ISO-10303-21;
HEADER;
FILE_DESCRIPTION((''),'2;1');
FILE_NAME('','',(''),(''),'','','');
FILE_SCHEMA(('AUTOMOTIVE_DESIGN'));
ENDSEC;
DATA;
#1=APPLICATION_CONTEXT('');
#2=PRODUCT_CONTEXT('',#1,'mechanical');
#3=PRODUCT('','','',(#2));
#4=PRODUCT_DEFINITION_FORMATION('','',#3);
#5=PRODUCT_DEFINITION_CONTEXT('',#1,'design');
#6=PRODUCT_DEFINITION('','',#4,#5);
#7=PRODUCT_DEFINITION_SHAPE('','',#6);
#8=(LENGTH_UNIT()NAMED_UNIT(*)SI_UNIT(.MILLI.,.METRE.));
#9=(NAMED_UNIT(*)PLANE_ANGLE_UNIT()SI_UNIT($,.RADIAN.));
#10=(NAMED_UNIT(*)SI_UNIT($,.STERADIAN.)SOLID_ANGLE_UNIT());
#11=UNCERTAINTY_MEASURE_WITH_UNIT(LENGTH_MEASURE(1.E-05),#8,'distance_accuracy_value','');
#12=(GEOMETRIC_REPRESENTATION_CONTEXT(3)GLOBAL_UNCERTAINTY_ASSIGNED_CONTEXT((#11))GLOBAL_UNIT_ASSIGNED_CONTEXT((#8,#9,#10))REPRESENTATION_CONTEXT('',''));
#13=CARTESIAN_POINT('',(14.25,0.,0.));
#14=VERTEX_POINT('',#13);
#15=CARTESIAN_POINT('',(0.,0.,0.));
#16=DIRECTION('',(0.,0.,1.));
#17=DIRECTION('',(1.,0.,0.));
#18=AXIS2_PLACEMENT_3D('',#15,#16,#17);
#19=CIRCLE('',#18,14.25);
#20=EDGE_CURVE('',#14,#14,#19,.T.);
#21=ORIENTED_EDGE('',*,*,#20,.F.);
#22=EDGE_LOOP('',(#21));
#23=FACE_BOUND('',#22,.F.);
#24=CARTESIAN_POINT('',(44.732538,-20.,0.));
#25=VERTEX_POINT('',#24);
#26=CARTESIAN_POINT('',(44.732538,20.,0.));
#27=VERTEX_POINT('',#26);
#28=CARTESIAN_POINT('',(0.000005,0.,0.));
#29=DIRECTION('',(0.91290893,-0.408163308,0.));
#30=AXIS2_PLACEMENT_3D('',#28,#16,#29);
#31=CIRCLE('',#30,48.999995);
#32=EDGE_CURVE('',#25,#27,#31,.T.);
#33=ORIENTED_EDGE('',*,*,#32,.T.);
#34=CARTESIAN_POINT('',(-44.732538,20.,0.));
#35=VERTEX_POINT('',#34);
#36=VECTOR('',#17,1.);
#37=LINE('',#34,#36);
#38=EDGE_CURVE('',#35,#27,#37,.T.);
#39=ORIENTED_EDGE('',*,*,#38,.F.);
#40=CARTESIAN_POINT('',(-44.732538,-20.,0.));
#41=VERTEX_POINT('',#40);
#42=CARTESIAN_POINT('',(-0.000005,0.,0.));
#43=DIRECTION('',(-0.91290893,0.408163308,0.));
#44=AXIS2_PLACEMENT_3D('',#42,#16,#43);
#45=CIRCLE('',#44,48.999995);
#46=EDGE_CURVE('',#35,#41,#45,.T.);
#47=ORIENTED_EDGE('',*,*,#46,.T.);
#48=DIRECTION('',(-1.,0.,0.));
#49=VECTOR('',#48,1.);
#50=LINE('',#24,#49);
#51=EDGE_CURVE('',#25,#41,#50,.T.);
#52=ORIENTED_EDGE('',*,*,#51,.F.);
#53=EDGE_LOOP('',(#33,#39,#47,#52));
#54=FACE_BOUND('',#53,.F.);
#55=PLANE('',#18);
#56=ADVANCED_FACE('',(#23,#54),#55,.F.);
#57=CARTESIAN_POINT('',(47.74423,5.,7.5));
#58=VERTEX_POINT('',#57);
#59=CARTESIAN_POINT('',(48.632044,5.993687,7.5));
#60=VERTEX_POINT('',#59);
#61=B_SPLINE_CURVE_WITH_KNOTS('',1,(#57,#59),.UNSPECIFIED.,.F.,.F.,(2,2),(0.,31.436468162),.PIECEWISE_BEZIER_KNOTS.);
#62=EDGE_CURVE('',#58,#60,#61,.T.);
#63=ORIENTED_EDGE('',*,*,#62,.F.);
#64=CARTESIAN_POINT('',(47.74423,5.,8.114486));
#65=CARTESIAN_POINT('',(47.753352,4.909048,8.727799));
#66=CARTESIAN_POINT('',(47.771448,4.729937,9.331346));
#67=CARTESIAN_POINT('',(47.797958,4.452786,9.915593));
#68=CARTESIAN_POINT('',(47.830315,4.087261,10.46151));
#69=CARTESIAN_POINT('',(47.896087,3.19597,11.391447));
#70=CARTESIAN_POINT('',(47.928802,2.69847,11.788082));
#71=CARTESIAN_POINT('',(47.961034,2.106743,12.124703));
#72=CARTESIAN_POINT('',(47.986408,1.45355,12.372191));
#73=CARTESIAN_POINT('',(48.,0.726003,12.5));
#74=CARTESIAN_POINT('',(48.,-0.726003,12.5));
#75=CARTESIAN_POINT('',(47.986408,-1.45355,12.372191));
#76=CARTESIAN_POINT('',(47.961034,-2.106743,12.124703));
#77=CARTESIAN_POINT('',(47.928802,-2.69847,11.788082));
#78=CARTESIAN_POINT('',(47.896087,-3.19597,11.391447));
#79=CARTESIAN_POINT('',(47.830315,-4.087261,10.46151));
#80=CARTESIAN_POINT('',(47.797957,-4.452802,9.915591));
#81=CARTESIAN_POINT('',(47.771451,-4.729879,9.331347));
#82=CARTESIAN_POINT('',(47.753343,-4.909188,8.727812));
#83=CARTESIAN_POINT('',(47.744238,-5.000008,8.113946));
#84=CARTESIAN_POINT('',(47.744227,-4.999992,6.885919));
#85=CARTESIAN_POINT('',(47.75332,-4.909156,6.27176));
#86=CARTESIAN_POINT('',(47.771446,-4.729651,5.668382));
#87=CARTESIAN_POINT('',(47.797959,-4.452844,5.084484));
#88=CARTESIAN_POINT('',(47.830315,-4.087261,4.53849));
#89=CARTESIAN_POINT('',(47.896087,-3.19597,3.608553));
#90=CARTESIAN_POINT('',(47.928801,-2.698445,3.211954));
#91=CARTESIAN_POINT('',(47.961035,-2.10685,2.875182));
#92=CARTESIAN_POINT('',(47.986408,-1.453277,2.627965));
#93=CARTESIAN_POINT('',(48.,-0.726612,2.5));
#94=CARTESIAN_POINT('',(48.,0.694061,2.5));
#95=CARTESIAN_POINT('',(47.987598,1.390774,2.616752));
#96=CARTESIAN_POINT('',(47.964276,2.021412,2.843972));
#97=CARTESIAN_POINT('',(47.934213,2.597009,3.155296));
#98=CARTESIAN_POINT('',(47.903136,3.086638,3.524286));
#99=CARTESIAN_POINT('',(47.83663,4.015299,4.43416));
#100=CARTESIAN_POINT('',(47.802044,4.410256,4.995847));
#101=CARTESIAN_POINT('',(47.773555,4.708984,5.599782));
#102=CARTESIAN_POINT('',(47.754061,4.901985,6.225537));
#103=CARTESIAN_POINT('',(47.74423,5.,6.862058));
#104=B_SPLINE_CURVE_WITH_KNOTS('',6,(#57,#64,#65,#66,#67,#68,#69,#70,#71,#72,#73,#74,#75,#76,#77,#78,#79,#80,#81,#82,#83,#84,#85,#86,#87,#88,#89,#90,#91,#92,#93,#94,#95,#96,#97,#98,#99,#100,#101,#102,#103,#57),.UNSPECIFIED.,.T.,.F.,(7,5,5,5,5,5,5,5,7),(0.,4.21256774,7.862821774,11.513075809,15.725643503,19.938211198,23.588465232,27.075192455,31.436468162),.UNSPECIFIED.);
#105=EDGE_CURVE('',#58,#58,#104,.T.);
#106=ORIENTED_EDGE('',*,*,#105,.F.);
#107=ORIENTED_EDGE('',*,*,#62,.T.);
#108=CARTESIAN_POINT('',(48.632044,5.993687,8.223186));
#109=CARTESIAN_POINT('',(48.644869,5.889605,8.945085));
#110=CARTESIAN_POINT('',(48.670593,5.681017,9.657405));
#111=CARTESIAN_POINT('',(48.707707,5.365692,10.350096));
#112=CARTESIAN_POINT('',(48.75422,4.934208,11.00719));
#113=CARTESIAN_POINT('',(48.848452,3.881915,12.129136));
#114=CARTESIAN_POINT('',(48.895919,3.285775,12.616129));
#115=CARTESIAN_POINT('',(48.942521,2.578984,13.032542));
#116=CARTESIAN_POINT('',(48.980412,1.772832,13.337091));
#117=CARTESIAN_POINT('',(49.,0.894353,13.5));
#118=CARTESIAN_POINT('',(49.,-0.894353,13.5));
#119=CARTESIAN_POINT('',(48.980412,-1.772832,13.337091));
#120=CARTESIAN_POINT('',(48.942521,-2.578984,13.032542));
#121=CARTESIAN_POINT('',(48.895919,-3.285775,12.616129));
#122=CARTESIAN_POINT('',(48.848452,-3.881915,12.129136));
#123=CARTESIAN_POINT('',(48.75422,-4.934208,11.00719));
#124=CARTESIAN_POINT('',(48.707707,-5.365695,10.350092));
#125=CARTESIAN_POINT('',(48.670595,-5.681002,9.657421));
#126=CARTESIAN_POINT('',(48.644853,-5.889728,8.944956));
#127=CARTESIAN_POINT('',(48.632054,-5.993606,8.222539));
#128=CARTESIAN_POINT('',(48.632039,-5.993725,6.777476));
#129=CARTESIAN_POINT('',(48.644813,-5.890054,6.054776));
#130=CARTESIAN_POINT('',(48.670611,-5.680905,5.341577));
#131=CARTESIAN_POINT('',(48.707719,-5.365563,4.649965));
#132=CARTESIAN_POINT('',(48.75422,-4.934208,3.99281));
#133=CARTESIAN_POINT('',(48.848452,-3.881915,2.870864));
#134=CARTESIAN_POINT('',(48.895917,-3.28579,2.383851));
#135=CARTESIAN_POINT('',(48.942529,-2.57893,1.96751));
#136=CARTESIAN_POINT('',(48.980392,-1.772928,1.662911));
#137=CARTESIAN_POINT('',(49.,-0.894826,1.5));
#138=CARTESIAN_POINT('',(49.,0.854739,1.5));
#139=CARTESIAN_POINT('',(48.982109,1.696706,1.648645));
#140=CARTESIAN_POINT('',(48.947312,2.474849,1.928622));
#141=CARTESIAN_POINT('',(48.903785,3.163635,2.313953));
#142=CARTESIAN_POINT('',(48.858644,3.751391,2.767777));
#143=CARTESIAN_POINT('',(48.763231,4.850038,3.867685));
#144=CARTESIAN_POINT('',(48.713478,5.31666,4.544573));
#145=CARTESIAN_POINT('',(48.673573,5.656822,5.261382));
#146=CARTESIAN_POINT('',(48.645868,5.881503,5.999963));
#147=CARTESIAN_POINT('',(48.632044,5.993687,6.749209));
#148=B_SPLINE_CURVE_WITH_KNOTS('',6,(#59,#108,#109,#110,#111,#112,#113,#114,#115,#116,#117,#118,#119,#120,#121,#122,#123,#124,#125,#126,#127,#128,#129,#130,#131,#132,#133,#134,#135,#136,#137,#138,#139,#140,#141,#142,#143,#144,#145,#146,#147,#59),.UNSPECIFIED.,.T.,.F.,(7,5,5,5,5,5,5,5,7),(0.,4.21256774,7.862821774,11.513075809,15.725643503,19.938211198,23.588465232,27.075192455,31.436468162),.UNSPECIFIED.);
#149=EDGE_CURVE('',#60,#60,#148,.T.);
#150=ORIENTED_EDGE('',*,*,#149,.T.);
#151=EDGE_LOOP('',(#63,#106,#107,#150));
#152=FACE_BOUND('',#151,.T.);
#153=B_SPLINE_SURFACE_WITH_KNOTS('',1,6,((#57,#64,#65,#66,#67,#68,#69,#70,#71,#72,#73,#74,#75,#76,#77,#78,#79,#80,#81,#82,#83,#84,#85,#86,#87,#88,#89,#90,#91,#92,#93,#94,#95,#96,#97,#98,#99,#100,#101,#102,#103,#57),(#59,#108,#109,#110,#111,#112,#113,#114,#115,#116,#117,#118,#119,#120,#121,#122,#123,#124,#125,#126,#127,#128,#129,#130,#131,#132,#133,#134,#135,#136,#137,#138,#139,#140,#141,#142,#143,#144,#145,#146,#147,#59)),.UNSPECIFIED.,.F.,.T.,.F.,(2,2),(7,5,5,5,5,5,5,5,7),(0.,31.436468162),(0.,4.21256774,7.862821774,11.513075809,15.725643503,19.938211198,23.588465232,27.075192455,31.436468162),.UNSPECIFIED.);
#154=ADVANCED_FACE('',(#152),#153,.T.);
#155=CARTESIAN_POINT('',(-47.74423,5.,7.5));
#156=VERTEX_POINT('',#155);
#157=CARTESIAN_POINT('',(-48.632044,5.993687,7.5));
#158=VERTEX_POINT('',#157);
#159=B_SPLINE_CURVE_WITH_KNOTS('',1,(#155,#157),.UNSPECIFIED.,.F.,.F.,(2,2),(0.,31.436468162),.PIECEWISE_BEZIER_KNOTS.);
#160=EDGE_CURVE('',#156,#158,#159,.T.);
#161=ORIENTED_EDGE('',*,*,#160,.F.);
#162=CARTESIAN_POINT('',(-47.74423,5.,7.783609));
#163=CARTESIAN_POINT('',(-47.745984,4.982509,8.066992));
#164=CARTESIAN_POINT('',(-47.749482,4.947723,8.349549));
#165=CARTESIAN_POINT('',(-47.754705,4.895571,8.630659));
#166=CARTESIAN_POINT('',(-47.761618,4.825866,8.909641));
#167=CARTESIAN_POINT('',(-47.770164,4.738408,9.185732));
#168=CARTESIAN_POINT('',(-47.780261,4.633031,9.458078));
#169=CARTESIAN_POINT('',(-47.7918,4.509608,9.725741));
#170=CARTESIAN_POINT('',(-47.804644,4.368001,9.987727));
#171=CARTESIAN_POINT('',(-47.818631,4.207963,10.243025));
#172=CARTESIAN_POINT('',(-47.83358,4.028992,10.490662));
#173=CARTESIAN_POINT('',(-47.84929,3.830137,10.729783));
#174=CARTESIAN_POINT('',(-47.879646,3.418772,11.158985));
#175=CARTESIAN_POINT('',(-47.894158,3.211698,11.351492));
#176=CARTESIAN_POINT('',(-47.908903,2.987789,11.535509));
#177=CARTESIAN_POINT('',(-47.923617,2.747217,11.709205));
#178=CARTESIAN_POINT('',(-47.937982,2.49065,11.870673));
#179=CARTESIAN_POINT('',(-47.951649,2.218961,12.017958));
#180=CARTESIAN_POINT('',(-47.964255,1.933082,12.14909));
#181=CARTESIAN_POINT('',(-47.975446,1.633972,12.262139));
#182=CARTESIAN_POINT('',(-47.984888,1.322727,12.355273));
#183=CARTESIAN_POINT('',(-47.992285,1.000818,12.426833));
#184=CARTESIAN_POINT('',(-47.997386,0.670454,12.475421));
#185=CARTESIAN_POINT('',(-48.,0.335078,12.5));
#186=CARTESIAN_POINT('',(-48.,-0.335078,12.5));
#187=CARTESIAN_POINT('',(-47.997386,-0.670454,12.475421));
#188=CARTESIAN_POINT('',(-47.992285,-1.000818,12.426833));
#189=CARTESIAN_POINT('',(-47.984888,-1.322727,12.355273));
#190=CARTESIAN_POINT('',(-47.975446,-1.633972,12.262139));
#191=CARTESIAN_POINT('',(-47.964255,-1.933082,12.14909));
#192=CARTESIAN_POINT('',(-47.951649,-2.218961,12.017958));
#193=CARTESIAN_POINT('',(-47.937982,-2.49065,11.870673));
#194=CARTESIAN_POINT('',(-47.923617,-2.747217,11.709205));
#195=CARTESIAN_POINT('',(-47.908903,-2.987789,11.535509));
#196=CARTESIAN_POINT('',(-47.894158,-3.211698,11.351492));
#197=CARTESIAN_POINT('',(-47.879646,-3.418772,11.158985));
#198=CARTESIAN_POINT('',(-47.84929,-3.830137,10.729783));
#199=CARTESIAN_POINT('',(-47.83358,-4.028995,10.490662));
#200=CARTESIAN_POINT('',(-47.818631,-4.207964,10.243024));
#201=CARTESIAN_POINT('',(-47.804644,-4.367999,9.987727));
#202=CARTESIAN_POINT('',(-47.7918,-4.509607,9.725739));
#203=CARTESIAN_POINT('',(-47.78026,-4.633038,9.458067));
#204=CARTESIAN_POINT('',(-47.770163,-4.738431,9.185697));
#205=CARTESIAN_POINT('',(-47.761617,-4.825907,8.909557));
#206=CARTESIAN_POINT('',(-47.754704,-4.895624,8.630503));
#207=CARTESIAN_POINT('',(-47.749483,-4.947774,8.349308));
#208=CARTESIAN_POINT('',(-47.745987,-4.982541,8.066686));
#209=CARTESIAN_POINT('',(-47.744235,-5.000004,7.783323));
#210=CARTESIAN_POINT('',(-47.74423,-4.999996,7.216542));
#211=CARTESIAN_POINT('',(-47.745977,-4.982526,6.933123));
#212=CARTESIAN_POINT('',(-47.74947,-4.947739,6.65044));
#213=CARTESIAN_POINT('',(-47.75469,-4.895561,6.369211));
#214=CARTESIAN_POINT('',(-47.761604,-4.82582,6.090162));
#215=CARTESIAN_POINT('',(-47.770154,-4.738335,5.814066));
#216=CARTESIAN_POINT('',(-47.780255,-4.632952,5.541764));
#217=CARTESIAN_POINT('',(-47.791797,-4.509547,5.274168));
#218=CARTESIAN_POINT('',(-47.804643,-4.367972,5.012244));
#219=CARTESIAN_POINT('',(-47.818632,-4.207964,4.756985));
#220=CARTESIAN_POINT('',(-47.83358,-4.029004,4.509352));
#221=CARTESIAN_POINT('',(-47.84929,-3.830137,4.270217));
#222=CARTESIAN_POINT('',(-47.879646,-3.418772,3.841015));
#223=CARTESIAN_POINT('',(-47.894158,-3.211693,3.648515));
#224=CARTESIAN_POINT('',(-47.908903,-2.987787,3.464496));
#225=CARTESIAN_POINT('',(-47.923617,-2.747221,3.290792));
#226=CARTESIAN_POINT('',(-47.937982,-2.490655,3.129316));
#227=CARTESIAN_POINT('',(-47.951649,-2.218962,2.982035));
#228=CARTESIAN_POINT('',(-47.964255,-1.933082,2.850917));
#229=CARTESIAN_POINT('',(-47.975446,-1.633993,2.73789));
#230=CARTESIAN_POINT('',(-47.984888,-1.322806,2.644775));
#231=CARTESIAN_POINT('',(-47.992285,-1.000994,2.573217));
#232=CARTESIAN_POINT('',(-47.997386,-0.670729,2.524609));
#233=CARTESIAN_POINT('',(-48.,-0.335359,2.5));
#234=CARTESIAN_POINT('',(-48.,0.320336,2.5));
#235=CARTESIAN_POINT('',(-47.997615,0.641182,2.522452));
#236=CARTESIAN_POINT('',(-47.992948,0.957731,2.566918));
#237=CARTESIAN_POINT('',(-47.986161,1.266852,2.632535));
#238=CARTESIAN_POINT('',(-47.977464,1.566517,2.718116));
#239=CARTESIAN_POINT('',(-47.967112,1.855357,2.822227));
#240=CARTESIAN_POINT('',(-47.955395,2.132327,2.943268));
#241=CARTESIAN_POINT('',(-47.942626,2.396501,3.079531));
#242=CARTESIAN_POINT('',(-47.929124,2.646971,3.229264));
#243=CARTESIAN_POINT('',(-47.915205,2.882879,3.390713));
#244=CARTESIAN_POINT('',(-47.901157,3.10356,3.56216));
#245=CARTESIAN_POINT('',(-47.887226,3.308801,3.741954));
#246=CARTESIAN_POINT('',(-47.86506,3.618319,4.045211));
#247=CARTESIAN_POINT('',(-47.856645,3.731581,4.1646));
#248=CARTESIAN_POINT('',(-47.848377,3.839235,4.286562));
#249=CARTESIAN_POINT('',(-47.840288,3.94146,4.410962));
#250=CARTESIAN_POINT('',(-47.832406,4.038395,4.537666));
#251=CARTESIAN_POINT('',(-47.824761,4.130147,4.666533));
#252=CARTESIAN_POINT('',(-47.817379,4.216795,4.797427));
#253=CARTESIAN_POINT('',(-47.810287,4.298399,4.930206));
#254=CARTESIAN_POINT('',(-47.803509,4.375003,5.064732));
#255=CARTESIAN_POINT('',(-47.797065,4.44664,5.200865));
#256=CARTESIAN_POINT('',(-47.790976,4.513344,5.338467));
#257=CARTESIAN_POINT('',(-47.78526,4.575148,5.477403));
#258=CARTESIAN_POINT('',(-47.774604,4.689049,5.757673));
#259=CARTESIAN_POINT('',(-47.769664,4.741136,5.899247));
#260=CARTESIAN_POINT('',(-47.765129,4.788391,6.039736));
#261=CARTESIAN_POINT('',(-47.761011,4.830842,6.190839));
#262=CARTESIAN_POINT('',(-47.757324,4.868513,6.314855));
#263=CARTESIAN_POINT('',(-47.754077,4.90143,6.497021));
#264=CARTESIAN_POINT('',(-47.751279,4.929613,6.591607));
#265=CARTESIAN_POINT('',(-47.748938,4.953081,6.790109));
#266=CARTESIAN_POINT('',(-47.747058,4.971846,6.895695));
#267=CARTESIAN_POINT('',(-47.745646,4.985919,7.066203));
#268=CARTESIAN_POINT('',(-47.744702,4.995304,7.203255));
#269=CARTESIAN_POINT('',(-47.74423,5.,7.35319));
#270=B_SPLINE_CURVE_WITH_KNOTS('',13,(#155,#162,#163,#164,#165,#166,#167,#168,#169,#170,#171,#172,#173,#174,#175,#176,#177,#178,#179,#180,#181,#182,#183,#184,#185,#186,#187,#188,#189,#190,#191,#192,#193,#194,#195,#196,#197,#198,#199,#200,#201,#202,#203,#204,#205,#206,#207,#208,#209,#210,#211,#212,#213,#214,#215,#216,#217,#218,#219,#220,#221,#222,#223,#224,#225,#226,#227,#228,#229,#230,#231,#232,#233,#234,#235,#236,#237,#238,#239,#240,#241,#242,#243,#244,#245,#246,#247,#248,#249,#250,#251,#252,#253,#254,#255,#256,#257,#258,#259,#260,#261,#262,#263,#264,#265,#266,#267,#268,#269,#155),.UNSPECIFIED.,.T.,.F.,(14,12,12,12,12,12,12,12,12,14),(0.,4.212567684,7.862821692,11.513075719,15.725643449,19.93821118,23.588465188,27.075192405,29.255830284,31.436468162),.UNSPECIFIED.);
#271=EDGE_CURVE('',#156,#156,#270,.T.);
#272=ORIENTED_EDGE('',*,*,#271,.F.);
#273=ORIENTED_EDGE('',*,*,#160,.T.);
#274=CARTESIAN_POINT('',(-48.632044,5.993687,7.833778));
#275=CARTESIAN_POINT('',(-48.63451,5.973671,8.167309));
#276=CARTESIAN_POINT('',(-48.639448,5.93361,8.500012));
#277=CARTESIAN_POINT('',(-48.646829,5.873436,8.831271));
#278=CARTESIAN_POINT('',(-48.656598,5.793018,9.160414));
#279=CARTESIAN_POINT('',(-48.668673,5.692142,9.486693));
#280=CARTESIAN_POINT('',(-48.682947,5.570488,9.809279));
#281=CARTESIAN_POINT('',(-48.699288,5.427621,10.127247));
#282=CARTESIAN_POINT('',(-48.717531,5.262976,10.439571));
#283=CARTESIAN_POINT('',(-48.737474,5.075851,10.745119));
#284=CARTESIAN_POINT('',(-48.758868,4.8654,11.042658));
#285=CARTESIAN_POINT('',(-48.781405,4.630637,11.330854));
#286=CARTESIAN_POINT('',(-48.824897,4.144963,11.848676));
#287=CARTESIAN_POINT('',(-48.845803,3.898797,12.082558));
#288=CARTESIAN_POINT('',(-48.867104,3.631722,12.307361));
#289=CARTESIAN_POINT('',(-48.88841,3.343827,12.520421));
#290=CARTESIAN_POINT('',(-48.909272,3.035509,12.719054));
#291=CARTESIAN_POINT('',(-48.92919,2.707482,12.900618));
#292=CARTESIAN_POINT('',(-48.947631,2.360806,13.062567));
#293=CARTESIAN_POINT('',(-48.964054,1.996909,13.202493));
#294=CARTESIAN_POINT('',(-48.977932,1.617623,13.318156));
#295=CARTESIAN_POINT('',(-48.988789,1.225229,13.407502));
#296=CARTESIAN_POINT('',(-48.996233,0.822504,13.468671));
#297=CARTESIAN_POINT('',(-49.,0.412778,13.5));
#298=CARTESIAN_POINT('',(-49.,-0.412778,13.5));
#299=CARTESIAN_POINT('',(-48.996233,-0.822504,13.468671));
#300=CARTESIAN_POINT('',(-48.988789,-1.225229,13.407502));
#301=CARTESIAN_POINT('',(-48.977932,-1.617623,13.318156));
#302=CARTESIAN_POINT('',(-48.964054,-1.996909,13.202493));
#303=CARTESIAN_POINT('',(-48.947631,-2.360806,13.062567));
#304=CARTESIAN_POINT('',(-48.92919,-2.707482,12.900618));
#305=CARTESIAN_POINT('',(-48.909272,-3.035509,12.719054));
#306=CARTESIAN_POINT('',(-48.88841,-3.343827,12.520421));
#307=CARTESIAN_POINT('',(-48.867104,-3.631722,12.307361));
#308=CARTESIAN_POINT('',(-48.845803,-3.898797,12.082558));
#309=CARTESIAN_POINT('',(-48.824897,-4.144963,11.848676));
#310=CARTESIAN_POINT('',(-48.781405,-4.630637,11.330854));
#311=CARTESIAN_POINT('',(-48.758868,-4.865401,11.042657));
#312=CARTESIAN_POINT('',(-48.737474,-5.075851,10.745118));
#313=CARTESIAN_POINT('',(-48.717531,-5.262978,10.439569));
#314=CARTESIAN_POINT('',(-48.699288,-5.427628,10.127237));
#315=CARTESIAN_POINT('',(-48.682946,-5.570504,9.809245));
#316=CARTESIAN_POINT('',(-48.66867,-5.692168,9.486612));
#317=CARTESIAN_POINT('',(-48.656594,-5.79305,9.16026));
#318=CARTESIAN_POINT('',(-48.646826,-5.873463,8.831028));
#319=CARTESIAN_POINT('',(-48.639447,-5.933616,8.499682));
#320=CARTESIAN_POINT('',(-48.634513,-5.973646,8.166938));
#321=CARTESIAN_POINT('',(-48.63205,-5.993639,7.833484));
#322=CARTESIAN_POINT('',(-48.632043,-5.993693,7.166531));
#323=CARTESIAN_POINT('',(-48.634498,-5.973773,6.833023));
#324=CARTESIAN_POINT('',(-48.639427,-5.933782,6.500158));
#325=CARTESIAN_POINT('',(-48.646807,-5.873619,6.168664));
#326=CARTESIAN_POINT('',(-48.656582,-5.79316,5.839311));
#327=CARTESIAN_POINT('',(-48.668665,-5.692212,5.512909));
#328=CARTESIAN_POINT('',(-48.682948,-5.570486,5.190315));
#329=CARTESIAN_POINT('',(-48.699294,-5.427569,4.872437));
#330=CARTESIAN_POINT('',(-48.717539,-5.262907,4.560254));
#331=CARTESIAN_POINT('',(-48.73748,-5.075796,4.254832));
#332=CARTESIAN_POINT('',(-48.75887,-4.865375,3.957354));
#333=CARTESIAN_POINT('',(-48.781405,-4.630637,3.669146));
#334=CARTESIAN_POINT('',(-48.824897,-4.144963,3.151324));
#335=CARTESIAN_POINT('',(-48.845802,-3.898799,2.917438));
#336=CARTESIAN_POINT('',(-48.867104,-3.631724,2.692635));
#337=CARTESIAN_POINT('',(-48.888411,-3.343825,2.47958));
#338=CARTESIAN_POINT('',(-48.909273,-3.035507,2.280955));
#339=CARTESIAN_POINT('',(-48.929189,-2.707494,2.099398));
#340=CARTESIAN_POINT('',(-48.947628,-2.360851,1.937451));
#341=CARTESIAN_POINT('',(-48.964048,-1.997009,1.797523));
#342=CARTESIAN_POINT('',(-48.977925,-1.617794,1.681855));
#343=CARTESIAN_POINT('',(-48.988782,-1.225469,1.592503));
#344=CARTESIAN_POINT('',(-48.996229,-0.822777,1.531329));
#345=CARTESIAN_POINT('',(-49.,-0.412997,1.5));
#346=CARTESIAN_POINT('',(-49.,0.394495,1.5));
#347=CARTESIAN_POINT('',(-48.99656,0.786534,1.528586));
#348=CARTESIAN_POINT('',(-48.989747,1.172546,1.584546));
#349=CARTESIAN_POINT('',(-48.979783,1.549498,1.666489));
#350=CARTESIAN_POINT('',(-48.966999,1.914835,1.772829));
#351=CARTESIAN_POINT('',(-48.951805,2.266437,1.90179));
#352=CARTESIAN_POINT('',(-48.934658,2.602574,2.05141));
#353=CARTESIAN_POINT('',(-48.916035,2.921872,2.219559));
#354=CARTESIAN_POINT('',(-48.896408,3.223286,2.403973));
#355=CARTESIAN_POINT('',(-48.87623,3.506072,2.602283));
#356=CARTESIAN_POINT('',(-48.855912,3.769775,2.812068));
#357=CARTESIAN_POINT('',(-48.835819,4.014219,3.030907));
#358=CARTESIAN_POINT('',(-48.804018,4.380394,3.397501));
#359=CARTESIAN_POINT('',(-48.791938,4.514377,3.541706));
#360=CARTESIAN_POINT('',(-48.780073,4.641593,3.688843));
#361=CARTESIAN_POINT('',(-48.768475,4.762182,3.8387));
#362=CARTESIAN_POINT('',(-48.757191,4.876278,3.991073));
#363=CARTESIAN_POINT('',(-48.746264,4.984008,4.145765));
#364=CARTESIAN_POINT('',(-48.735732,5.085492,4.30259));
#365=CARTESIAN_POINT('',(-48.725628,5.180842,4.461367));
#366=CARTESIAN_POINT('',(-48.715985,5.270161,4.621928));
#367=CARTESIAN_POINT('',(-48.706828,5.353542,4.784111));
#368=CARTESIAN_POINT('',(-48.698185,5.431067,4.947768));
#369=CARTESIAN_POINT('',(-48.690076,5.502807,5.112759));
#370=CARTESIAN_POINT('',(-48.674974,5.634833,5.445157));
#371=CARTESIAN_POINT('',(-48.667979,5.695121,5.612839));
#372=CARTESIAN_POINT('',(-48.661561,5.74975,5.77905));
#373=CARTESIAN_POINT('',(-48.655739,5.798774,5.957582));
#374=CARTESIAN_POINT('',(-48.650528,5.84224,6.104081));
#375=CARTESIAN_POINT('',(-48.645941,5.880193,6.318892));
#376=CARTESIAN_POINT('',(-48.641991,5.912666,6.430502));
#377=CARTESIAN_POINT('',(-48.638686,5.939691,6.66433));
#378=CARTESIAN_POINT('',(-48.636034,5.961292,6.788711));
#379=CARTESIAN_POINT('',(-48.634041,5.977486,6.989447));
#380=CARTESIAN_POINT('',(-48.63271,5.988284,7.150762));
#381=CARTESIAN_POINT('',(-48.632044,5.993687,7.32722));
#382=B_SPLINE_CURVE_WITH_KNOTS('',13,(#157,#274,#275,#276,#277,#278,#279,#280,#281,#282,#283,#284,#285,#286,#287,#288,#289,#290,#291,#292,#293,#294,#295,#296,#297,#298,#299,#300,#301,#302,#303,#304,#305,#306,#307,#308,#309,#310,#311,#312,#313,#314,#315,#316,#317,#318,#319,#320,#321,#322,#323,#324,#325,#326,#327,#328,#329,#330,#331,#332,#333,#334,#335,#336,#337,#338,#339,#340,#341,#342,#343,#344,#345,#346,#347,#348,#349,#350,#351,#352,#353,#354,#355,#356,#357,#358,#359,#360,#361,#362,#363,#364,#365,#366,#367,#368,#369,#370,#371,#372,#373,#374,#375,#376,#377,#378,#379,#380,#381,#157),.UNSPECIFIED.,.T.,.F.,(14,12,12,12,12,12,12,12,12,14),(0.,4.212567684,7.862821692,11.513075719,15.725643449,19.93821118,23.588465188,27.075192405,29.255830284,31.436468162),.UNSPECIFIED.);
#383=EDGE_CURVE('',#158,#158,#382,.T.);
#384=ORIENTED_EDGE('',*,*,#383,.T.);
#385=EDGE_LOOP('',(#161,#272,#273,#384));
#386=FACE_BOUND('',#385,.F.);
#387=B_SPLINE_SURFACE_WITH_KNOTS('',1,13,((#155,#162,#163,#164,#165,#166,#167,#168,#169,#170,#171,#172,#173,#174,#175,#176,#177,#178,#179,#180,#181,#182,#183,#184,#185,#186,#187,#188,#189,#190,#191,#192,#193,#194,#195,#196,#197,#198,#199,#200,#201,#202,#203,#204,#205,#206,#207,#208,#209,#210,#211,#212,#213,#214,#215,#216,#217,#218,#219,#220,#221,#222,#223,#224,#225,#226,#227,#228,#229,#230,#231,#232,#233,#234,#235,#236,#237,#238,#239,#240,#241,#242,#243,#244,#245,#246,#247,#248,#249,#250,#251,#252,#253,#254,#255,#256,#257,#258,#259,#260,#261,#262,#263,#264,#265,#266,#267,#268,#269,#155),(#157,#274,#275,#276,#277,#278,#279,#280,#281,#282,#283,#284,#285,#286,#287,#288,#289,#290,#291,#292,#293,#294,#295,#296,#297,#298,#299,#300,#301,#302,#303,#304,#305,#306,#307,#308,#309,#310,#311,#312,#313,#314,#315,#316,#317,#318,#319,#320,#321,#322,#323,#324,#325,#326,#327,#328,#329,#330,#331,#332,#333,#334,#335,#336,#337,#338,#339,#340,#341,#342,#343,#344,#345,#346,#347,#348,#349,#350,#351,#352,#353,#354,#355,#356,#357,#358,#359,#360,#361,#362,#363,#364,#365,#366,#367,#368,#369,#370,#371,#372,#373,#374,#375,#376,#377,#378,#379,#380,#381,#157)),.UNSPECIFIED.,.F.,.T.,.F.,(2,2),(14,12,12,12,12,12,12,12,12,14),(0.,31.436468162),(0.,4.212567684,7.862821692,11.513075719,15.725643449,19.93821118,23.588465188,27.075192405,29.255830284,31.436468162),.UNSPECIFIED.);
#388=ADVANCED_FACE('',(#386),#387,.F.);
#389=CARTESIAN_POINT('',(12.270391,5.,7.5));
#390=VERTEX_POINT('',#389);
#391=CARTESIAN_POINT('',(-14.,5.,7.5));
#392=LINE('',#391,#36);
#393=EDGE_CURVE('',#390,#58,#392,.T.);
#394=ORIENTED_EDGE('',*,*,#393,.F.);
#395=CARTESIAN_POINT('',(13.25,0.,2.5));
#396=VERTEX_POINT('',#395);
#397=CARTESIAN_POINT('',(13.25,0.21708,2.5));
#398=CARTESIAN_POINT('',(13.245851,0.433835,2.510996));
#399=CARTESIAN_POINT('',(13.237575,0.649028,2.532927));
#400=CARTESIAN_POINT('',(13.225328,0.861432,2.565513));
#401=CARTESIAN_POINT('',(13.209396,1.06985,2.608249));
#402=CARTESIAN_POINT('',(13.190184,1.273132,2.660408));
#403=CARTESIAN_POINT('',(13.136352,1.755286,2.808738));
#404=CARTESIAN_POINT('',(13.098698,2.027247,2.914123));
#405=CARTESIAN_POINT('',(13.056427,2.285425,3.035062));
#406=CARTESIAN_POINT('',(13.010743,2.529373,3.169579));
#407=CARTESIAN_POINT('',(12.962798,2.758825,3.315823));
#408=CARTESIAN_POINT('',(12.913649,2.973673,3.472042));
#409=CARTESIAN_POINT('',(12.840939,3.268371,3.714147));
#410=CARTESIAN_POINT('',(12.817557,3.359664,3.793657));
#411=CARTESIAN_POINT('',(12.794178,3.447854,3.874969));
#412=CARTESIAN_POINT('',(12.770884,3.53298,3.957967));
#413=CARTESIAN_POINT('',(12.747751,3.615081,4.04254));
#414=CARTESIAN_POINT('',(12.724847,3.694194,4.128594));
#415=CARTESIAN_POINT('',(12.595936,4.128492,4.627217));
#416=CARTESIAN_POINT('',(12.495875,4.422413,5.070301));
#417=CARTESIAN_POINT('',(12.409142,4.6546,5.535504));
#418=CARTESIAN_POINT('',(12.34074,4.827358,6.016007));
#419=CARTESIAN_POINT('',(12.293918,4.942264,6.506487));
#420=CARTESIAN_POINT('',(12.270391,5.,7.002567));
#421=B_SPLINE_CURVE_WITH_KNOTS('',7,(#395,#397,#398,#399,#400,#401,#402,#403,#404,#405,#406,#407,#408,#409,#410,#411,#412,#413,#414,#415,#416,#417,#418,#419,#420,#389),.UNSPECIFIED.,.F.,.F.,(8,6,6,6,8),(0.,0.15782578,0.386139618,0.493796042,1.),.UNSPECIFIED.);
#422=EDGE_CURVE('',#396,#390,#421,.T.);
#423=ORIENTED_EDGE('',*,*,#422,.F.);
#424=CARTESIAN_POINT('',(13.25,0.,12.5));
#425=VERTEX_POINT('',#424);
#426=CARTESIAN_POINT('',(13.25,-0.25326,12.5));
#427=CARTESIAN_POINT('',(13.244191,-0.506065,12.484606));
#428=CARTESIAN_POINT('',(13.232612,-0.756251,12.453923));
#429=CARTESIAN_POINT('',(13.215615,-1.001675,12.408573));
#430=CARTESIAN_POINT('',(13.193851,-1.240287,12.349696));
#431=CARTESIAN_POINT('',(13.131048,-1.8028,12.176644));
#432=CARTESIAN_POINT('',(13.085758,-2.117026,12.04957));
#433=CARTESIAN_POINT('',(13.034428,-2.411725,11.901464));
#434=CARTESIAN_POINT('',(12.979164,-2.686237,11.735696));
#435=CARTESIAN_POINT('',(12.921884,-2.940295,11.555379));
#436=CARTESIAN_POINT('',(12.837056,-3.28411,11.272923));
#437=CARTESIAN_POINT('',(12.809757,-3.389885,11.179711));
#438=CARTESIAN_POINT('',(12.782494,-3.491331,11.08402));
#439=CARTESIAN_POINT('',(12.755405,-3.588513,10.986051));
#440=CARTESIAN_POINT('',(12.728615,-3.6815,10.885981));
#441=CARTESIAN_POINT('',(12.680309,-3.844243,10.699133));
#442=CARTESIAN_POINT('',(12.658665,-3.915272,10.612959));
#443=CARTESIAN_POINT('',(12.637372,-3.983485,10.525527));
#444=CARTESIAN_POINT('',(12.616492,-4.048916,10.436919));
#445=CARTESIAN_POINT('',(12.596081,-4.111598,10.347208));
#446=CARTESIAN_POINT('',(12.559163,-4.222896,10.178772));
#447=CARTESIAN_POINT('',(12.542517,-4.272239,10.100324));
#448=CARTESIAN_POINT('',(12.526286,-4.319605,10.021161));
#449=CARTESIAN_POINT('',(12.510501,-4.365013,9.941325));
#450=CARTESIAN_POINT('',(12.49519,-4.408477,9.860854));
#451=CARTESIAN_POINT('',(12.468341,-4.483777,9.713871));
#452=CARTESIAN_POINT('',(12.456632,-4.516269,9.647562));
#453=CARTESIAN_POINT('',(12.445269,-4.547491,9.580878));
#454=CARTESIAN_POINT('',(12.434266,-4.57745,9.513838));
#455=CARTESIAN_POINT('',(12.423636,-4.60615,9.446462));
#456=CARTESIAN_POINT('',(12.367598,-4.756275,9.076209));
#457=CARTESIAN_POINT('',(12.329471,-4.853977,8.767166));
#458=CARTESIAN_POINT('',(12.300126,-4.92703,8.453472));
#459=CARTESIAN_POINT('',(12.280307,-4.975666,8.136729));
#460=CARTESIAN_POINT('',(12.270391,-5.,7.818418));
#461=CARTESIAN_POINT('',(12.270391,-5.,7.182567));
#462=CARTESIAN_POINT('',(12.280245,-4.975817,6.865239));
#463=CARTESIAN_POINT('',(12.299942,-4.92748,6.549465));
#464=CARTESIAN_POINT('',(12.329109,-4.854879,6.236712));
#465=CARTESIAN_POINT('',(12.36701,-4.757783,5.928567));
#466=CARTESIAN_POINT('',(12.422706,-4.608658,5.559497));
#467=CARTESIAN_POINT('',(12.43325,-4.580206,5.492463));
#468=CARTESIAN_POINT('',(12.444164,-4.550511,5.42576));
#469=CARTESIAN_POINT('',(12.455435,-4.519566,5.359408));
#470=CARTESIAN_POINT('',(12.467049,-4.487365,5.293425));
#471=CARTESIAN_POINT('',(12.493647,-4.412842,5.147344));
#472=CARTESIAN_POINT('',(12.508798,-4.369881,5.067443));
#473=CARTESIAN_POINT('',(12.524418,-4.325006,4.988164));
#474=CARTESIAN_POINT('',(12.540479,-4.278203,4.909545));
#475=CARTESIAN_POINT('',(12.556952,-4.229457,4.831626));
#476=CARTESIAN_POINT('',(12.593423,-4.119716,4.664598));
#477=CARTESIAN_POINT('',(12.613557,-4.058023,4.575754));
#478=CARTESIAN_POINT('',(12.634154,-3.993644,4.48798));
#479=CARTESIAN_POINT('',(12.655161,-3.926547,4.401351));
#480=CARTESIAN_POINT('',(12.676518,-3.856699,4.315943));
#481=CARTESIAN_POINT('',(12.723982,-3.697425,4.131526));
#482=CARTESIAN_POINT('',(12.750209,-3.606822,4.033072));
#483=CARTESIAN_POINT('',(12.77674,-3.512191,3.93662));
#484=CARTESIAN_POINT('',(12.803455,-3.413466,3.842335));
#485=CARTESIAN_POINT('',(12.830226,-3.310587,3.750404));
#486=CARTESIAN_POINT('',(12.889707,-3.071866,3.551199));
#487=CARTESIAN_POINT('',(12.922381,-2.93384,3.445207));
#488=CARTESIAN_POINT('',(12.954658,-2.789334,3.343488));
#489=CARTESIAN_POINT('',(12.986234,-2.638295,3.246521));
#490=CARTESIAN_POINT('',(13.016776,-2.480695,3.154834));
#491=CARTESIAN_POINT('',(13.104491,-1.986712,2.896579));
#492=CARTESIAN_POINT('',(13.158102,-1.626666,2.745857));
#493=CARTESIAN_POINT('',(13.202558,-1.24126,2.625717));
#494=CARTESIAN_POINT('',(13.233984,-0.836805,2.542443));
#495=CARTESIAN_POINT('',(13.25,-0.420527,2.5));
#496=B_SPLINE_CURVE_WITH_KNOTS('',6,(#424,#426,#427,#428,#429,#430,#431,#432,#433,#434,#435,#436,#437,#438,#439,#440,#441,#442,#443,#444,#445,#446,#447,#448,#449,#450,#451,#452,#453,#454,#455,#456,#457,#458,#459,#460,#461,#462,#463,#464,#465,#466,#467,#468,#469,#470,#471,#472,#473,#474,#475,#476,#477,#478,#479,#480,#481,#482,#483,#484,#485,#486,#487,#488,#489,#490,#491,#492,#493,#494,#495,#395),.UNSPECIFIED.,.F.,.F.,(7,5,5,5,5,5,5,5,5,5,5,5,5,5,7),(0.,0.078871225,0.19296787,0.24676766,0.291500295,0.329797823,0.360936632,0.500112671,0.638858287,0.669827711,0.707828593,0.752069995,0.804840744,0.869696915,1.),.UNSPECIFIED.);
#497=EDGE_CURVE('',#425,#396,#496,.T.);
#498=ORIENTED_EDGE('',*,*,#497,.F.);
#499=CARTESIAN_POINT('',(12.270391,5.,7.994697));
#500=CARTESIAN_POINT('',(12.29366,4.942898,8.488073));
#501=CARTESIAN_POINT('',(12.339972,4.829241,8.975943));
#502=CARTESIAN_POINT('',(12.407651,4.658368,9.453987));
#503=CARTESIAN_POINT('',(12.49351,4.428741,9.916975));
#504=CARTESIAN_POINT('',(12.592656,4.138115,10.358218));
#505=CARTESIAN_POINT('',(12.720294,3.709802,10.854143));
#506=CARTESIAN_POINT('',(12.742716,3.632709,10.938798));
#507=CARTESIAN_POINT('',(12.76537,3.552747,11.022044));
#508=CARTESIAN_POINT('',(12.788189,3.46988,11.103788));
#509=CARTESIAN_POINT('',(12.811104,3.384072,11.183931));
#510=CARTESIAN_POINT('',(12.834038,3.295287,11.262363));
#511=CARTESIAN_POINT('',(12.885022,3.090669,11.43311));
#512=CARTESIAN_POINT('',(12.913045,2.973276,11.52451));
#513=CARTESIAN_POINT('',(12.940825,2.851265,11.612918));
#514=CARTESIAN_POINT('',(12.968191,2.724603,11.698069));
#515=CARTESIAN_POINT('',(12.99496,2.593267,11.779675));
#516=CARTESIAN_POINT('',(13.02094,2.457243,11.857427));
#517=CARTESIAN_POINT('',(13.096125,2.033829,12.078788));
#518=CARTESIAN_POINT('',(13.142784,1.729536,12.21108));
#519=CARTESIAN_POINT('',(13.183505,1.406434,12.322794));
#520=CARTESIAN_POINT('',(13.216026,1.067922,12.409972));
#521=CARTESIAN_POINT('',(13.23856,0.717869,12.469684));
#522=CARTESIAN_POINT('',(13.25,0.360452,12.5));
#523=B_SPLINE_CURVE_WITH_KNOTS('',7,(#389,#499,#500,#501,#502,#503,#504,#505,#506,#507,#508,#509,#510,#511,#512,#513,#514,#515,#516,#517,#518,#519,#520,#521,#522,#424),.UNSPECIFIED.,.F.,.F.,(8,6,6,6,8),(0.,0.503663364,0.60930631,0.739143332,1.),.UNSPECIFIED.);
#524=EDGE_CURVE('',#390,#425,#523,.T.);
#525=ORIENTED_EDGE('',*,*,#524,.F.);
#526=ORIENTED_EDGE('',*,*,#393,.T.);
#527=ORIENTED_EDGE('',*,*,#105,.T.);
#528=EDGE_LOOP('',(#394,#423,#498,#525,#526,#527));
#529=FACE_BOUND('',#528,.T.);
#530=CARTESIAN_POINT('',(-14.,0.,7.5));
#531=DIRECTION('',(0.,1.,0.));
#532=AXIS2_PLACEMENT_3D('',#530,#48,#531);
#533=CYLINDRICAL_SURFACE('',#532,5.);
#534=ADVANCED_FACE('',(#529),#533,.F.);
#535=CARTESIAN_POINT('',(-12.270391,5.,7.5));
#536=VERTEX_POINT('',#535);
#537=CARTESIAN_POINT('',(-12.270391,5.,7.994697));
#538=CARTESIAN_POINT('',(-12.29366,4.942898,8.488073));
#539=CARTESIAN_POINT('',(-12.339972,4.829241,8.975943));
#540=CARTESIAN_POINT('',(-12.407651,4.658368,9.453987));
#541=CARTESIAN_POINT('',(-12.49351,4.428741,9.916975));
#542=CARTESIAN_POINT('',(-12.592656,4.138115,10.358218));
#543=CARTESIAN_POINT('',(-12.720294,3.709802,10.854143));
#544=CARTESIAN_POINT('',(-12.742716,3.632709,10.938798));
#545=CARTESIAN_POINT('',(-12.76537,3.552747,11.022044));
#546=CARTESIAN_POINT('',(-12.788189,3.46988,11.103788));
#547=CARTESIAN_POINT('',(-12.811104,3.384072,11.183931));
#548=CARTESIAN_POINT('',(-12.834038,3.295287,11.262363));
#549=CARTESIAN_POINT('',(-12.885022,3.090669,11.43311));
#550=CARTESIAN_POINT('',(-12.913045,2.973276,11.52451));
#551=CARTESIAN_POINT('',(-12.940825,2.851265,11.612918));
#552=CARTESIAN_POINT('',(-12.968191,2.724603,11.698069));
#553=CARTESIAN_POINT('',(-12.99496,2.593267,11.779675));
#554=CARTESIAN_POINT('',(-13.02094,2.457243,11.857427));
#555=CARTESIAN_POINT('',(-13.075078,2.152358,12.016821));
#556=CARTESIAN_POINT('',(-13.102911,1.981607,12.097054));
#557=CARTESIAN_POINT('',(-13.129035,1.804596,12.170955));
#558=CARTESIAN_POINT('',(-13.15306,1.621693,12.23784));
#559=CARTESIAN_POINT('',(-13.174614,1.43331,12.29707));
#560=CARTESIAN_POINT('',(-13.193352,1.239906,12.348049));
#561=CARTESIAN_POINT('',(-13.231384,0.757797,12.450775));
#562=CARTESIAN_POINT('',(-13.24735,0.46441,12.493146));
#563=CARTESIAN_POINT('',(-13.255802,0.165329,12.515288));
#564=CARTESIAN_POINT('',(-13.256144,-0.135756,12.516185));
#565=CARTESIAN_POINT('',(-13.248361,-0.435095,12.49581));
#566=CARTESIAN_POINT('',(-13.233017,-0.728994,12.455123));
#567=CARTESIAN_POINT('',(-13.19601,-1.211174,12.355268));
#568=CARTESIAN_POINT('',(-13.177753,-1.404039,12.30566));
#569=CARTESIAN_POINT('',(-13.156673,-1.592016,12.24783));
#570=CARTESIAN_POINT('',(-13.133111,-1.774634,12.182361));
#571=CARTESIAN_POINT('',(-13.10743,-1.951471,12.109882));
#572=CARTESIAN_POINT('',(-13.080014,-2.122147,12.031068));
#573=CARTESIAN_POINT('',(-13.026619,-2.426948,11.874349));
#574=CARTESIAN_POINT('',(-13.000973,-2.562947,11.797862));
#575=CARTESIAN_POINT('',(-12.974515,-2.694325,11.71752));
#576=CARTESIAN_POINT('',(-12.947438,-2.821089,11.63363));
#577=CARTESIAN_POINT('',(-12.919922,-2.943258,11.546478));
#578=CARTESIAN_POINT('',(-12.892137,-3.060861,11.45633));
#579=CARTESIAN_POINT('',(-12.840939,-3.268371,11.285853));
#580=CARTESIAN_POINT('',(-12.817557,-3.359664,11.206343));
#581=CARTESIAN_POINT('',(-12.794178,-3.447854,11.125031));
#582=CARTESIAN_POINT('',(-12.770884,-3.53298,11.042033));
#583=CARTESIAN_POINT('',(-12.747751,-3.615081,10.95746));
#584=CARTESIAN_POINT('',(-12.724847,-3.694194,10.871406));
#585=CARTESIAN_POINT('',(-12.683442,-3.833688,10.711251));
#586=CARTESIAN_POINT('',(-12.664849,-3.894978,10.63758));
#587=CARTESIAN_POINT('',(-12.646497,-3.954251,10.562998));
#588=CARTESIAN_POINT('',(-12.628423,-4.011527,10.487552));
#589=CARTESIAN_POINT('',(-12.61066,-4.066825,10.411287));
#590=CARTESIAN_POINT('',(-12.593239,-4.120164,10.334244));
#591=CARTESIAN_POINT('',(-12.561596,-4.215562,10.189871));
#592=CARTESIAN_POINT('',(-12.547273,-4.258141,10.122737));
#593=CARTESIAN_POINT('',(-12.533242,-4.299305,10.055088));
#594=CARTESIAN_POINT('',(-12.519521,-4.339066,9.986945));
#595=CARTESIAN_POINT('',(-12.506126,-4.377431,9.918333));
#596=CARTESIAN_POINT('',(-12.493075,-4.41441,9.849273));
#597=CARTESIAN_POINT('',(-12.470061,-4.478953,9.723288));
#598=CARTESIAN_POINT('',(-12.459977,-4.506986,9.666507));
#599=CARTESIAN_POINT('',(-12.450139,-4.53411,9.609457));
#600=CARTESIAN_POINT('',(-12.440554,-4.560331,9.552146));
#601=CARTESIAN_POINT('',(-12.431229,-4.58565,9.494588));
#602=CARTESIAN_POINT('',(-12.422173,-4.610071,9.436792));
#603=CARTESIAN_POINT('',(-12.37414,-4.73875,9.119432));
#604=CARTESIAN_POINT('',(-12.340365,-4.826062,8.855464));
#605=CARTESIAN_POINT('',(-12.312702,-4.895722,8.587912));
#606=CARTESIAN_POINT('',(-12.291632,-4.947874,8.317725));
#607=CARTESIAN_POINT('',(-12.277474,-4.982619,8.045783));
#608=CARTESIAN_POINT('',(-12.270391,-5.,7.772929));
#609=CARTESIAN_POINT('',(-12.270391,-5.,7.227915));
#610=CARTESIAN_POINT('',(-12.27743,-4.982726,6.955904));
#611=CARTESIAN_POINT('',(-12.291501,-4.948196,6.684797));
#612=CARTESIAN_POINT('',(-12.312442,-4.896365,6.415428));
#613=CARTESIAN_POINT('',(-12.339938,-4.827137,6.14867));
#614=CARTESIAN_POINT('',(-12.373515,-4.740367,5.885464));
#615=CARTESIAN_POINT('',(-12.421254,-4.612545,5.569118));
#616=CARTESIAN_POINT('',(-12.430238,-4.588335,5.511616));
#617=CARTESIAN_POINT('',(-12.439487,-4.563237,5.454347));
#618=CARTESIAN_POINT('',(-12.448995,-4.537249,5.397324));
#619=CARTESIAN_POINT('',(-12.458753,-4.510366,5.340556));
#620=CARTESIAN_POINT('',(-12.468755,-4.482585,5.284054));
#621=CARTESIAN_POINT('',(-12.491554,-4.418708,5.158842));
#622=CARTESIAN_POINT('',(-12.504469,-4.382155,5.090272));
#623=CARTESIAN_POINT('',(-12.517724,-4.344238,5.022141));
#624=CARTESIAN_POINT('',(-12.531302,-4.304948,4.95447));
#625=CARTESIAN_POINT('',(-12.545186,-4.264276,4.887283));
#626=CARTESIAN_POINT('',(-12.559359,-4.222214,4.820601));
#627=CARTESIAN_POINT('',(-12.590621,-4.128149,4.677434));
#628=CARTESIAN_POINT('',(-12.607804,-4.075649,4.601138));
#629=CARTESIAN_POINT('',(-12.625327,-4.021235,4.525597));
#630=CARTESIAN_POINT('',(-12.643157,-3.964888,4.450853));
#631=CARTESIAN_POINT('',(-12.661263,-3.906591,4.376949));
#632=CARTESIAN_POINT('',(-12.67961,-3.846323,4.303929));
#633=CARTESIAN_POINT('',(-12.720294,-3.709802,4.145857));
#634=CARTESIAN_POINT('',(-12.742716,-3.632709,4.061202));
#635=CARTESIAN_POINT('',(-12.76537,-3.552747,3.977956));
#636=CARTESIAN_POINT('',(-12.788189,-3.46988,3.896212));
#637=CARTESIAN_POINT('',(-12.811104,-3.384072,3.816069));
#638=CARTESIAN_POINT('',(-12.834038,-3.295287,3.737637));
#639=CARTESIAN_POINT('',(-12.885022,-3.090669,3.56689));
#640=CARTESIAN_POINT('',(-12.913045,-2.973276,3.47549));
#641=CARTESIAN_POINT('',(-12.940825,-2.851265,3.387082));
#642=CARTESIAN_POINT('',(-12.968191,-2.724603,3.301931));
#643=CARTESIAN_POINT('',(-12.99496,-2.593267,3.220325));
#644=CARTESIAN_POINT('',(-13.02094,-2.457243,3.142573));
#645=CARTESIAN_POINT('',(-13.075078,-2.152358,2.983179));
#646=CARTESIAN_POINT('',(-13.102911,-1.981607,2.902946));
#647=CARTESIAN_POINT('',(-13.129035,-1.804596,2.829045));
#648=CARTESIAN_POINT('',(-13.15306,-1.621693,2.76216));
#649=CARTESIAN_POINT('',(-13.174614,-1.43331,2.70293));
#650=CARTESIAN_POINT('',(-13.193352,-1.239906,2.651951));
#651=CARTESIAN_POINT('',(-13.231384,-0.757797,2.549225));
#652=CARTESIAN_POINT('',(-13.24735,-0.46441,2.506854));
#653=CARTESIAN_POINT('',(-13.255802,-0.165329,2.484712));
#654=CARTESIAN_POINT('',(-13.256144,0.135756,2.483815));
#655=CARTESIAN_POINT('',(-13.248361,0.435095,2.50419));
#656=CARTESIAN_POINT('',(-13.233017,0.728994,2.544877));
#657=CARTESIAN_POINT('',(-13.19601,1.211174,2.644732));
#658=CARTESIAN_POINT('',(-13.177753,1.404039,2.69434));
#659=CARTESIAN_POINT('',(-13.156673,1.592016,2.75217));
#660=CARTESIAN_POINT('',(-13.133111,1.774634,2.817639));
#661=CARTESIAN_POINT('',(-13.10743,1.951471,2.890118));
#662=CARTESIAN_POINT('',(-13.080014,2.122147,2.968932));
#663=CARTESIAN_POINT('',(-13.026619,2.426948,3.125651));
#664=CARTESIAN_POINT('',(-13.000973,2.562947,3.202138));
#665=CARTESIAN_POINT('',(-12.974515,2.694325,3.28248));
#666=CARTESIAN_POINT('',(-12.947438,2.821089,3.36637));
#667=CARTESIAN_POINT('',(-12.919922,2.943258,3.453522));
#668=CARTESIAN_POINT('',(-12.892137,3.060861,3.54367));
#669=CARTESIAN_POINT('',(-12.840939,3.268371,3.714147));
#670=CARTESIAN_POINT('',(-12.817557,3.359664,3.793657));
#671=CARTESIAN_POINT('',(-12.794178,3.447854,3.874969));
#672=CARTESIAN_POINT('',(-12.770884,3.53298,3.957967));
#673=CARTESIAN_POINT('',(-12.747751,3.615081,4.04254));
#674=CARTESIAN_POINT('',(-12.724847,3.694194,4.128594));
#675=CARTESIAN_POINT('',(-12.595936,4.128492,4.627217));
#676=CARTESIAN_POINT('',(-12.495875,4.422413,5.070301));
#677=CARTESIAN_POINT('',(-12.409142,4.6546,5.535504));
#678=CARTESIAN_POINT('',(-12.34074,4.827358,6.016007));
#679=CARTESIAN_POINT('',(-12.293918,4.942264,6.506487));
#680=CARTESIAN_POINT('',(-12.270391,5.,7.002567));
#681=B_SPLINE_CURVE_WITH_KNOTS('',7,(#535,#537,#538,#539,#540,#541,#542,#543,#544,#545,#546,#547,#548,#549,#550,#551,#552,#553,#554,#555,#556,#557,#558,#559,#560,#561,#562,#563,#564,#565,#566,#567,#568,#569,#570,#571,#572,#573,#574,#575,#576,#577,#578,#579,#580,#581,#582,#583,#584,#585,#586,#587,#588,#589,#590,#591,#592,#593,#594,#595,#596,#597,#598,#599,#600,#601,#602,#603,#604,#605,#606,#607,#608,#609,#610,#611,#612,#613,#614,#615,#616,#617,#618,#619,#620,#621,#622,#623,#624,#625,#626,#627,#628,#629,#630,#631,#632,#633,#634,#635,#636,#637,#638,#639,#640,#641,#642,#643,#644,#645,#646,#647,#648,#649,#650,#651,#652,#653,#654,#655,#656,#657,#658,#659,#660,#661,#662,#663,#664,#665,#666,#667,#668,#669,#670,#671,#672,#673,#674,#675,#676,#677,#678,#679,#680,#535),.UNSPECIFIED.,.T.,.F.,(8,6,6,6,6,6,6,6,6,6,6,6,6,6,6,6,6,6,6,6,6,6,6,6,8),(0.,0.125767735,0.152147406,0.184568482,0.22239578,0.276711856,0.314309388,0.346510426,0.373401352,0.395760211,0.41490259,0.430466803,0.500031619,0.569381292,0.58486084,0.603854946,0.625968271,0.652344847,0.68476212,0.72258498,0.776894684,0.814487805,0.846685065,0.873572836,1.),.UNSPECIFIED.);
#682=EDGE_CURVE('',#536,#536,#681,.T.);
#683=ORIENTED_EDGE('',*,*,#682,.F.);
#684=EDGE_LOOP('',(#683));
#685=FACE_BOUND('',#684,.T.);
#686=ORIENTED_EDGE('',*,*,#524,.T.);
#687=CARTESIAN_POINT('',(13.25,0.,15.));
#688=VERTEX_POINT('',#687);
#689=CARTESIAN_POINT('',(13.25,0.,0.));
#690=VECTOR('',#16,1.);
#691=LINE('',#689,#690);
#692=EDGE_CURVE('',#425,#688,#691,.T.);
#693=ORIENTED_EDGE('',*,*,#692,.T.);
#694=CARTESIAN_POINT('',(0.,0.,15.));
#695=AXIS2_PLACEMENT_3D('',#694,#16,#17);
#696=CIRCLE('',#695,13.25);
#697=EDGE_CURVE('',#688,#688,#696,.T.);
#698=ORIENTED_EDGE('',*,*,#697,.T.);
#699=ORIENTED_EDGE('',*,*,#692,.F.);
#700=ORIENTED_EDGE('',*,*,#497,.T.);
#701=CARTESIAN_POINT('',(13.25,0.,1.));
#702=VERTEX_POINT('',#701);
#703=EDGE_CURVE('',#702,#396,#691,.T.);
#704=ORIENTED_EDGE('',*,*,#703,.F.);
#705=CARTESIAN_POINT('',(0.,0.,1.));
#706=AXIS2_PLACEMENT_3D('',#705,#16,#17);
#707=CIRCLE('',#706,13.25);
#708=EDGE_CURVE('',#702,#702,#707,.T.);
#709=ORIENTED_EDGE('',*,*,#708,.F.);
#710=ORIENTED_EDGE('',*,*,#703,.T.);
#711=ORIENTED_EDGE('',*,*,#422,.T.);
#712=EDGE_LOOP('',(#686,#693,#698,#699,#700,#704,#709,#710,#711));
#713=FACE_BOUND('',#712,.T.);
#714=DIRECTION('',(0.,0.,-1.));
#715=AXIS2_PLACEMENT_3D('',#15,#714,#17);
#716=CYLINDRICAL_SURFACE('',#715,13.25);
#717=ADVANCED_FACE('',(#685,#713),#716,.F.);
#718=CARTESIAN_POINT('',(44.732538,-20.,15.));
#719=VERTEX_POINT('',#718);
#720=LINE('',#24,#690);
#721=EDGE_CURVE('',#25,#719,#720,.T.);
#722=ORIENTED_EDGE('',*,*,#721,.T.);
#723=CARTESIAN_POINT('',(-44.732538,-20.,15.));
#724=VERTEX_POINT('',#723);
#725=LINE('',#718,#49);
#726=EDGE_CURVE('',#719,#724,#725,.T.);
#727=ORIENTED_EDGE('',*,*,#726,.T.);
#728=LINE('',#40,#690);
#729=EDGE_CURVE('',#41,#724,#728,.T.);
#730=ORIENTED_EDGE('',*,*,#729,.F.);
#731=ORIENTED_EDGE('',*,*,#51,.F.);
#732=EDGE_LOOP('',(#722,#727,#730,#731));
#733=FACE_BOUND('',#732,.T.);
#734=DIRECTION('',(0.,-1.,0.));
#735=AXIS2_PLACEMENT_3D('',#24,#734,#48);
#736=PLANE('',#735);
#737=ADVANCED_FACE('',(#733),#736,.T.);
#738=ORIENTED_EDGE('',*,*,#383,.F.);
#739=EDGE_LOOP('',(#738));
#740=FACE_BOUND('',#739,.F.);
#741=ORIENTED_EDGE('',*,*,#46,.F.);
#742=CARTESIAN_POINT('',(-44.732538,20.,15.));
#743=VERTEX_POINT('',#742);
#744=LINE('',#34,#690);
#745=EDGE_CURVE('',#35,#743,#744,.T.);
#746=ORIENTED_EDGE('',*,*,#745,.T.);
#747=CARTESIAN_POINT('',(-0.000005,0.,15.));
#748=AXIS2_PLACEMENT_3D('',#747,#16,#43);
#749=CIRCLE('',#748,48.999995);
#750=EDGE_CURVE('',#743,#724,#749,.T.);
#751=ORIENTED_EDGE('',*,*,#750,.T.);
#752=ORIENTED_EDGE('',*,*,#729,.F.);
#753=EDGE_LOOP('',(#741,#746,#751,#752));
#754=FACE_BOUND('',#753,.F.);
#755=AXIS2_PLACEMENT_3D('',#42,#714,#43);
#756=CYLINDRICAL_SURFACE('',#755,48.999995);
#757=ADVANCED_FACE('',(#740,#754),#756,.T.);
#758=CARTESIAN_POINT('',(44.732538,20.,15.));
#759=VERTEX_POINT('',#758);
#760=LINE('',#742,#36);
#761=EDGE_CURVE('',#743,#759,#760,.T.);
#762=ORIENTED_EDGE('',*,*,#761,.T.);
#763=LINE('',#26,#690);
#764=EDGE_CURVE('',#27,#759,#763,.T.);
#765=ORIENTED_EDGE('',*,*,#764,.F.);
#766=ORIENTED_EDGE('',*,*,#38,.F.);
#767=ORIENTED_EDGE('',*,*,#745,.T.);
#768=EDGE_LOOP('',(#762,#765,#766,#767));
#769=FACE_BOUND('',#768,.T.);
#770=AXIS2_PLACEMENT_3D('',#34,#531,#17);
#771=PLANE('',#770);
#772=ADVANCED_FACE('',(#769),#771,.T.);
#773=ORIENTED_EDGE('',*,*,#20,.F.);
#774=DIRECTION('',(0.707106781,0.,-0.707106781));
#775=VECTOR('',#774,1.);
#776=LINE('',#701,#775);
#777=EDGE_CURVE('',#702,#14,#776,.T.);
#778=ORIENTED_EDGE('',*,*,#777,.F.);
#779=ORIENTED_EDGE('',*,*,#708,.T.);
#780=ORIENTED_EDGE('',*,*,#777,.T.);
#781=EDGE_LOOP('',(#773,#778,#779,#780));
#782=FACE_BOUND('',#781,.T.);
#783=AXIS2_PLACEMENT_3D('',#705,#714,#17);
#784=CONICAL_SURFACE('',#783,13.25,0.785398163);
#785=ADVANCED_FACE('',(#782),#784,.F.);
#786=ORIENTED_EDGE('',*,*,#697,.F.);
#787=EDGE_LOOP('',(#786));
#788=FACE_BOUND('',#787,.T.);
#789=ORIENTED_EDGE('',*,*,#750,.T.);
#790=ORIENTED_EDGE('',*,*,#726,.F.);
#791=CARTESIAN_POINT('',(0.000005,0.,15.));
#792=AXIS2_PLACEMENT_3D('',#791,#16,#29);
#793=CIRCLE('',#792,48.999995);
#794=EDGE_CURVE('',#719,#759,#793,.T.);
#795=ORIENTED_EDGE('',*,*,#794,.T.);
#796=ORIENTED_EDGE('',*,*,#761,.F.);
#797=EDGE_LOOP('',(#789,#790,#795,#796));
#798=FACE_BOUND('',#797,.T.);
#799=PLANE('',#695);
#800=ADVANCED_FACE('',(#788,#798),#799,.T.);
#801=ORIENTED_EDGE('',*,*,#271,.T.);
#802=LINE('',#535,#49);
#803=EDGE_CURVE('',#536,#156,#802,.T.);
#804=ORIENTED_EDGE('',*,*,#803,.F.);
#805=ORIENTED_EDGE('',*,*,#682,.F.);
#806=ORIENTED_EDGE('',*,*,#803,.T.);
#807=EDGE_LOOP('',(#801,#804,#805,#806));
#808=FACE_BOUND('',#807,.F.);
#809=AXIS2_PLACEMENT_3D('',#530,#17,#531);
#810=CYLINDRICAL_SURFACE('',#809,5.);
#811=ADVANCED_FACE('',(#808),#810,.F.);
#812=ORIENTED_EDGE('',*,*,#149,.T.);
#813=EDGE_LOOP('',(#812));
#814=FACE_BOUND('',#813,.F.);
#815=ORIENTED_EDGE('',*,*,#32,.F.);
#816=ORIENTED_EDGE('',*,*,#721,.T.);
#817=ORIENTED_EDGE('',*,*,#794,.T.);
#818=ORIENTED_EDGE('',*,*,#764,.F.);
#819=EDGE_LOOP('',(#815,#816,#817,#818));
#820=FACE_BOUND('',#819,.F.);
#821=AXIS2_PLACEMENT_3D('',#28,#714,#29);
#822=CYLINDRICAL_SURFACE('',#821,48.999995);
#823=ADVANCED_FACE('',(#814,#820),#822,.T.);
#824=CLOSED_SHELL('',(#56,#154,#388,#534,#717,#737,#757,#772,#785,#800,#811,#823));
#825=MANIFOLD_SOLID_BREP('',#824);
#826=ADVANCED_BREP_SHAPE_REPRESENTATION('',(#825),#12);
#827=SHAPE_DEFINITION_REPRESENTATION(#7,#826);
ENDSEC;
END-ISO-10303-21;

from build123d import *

# Parameters (mm, degrees)
SKETCH_R          = 13.25
PAD_DEPTH         = 15
SKETCH001_R       = 5
POCKET_DEPTH      = 35.001
POCKET_DEPTH_BACK = -63.001
CHAMFER_SIZE      = 1
CHAMFER001_SIZE   = 1
CHAMFER002_SIZE   = 1


with BuildPart() as part:
    # Sketch → Pad (new body)
    with BuildSketch(Plane.XY):
        with BuildLine():
            ThreePointArc((-44.732538, 20), (-49, 0), (-44.732538, -20))
            Line((44.732538, -20), (-44.732538, -20))
            ThreePointArc((44.732538, -20), (49, 0), (44.732538, 20))
            Line((-44.732538, 20), (44.732538, 20))
        make_face()
        Circle(SKETCH_R, mode=Mode.SUBTRACT)
    extrude(amount=PAD_DEPTH)

    # Sketch001 → Pocket (cut, two sides)
    with BuildSketch(Plane.YZ.offset(-14)) as pocket_sk:
        with Locations((0, 7.5)):
            Circle(SKETCH001_R)
    extrude(amount=-POCKET_DEPTH, mode=Mode.SUBTRACT)
    extrude(pocket_sk.sketch, amount=-POCKET_DEPTH_BACK, mode=Mode.SUBTRACT)

    # Chamfer
    chamfer_edges = [part.edges().sort_by_distance(p)[0] for p in [
        (-13.25, 0, 0),
    ]]
    chamfer(chamfer_edges, length=CHAMFER_SIZE)

    # Chamfer001
    chamfer001_edges = [part.edges().sort_by_distance(p)[0] for p in [
        (-48.74423, -5, 7.5),
    ]]
    chamfer(chamfer001_edges, length=CHAMFER001_SIZE)

    # Chamfer002
    chamfer002_edges = [part.edges().sort_by_distance(p)[0] for p in [
        (48.74423, -5, 7.5),
    ]]
    chamfer(chamfer002_edges, length=CHAMFER002_SIZE)


solid = part.part
